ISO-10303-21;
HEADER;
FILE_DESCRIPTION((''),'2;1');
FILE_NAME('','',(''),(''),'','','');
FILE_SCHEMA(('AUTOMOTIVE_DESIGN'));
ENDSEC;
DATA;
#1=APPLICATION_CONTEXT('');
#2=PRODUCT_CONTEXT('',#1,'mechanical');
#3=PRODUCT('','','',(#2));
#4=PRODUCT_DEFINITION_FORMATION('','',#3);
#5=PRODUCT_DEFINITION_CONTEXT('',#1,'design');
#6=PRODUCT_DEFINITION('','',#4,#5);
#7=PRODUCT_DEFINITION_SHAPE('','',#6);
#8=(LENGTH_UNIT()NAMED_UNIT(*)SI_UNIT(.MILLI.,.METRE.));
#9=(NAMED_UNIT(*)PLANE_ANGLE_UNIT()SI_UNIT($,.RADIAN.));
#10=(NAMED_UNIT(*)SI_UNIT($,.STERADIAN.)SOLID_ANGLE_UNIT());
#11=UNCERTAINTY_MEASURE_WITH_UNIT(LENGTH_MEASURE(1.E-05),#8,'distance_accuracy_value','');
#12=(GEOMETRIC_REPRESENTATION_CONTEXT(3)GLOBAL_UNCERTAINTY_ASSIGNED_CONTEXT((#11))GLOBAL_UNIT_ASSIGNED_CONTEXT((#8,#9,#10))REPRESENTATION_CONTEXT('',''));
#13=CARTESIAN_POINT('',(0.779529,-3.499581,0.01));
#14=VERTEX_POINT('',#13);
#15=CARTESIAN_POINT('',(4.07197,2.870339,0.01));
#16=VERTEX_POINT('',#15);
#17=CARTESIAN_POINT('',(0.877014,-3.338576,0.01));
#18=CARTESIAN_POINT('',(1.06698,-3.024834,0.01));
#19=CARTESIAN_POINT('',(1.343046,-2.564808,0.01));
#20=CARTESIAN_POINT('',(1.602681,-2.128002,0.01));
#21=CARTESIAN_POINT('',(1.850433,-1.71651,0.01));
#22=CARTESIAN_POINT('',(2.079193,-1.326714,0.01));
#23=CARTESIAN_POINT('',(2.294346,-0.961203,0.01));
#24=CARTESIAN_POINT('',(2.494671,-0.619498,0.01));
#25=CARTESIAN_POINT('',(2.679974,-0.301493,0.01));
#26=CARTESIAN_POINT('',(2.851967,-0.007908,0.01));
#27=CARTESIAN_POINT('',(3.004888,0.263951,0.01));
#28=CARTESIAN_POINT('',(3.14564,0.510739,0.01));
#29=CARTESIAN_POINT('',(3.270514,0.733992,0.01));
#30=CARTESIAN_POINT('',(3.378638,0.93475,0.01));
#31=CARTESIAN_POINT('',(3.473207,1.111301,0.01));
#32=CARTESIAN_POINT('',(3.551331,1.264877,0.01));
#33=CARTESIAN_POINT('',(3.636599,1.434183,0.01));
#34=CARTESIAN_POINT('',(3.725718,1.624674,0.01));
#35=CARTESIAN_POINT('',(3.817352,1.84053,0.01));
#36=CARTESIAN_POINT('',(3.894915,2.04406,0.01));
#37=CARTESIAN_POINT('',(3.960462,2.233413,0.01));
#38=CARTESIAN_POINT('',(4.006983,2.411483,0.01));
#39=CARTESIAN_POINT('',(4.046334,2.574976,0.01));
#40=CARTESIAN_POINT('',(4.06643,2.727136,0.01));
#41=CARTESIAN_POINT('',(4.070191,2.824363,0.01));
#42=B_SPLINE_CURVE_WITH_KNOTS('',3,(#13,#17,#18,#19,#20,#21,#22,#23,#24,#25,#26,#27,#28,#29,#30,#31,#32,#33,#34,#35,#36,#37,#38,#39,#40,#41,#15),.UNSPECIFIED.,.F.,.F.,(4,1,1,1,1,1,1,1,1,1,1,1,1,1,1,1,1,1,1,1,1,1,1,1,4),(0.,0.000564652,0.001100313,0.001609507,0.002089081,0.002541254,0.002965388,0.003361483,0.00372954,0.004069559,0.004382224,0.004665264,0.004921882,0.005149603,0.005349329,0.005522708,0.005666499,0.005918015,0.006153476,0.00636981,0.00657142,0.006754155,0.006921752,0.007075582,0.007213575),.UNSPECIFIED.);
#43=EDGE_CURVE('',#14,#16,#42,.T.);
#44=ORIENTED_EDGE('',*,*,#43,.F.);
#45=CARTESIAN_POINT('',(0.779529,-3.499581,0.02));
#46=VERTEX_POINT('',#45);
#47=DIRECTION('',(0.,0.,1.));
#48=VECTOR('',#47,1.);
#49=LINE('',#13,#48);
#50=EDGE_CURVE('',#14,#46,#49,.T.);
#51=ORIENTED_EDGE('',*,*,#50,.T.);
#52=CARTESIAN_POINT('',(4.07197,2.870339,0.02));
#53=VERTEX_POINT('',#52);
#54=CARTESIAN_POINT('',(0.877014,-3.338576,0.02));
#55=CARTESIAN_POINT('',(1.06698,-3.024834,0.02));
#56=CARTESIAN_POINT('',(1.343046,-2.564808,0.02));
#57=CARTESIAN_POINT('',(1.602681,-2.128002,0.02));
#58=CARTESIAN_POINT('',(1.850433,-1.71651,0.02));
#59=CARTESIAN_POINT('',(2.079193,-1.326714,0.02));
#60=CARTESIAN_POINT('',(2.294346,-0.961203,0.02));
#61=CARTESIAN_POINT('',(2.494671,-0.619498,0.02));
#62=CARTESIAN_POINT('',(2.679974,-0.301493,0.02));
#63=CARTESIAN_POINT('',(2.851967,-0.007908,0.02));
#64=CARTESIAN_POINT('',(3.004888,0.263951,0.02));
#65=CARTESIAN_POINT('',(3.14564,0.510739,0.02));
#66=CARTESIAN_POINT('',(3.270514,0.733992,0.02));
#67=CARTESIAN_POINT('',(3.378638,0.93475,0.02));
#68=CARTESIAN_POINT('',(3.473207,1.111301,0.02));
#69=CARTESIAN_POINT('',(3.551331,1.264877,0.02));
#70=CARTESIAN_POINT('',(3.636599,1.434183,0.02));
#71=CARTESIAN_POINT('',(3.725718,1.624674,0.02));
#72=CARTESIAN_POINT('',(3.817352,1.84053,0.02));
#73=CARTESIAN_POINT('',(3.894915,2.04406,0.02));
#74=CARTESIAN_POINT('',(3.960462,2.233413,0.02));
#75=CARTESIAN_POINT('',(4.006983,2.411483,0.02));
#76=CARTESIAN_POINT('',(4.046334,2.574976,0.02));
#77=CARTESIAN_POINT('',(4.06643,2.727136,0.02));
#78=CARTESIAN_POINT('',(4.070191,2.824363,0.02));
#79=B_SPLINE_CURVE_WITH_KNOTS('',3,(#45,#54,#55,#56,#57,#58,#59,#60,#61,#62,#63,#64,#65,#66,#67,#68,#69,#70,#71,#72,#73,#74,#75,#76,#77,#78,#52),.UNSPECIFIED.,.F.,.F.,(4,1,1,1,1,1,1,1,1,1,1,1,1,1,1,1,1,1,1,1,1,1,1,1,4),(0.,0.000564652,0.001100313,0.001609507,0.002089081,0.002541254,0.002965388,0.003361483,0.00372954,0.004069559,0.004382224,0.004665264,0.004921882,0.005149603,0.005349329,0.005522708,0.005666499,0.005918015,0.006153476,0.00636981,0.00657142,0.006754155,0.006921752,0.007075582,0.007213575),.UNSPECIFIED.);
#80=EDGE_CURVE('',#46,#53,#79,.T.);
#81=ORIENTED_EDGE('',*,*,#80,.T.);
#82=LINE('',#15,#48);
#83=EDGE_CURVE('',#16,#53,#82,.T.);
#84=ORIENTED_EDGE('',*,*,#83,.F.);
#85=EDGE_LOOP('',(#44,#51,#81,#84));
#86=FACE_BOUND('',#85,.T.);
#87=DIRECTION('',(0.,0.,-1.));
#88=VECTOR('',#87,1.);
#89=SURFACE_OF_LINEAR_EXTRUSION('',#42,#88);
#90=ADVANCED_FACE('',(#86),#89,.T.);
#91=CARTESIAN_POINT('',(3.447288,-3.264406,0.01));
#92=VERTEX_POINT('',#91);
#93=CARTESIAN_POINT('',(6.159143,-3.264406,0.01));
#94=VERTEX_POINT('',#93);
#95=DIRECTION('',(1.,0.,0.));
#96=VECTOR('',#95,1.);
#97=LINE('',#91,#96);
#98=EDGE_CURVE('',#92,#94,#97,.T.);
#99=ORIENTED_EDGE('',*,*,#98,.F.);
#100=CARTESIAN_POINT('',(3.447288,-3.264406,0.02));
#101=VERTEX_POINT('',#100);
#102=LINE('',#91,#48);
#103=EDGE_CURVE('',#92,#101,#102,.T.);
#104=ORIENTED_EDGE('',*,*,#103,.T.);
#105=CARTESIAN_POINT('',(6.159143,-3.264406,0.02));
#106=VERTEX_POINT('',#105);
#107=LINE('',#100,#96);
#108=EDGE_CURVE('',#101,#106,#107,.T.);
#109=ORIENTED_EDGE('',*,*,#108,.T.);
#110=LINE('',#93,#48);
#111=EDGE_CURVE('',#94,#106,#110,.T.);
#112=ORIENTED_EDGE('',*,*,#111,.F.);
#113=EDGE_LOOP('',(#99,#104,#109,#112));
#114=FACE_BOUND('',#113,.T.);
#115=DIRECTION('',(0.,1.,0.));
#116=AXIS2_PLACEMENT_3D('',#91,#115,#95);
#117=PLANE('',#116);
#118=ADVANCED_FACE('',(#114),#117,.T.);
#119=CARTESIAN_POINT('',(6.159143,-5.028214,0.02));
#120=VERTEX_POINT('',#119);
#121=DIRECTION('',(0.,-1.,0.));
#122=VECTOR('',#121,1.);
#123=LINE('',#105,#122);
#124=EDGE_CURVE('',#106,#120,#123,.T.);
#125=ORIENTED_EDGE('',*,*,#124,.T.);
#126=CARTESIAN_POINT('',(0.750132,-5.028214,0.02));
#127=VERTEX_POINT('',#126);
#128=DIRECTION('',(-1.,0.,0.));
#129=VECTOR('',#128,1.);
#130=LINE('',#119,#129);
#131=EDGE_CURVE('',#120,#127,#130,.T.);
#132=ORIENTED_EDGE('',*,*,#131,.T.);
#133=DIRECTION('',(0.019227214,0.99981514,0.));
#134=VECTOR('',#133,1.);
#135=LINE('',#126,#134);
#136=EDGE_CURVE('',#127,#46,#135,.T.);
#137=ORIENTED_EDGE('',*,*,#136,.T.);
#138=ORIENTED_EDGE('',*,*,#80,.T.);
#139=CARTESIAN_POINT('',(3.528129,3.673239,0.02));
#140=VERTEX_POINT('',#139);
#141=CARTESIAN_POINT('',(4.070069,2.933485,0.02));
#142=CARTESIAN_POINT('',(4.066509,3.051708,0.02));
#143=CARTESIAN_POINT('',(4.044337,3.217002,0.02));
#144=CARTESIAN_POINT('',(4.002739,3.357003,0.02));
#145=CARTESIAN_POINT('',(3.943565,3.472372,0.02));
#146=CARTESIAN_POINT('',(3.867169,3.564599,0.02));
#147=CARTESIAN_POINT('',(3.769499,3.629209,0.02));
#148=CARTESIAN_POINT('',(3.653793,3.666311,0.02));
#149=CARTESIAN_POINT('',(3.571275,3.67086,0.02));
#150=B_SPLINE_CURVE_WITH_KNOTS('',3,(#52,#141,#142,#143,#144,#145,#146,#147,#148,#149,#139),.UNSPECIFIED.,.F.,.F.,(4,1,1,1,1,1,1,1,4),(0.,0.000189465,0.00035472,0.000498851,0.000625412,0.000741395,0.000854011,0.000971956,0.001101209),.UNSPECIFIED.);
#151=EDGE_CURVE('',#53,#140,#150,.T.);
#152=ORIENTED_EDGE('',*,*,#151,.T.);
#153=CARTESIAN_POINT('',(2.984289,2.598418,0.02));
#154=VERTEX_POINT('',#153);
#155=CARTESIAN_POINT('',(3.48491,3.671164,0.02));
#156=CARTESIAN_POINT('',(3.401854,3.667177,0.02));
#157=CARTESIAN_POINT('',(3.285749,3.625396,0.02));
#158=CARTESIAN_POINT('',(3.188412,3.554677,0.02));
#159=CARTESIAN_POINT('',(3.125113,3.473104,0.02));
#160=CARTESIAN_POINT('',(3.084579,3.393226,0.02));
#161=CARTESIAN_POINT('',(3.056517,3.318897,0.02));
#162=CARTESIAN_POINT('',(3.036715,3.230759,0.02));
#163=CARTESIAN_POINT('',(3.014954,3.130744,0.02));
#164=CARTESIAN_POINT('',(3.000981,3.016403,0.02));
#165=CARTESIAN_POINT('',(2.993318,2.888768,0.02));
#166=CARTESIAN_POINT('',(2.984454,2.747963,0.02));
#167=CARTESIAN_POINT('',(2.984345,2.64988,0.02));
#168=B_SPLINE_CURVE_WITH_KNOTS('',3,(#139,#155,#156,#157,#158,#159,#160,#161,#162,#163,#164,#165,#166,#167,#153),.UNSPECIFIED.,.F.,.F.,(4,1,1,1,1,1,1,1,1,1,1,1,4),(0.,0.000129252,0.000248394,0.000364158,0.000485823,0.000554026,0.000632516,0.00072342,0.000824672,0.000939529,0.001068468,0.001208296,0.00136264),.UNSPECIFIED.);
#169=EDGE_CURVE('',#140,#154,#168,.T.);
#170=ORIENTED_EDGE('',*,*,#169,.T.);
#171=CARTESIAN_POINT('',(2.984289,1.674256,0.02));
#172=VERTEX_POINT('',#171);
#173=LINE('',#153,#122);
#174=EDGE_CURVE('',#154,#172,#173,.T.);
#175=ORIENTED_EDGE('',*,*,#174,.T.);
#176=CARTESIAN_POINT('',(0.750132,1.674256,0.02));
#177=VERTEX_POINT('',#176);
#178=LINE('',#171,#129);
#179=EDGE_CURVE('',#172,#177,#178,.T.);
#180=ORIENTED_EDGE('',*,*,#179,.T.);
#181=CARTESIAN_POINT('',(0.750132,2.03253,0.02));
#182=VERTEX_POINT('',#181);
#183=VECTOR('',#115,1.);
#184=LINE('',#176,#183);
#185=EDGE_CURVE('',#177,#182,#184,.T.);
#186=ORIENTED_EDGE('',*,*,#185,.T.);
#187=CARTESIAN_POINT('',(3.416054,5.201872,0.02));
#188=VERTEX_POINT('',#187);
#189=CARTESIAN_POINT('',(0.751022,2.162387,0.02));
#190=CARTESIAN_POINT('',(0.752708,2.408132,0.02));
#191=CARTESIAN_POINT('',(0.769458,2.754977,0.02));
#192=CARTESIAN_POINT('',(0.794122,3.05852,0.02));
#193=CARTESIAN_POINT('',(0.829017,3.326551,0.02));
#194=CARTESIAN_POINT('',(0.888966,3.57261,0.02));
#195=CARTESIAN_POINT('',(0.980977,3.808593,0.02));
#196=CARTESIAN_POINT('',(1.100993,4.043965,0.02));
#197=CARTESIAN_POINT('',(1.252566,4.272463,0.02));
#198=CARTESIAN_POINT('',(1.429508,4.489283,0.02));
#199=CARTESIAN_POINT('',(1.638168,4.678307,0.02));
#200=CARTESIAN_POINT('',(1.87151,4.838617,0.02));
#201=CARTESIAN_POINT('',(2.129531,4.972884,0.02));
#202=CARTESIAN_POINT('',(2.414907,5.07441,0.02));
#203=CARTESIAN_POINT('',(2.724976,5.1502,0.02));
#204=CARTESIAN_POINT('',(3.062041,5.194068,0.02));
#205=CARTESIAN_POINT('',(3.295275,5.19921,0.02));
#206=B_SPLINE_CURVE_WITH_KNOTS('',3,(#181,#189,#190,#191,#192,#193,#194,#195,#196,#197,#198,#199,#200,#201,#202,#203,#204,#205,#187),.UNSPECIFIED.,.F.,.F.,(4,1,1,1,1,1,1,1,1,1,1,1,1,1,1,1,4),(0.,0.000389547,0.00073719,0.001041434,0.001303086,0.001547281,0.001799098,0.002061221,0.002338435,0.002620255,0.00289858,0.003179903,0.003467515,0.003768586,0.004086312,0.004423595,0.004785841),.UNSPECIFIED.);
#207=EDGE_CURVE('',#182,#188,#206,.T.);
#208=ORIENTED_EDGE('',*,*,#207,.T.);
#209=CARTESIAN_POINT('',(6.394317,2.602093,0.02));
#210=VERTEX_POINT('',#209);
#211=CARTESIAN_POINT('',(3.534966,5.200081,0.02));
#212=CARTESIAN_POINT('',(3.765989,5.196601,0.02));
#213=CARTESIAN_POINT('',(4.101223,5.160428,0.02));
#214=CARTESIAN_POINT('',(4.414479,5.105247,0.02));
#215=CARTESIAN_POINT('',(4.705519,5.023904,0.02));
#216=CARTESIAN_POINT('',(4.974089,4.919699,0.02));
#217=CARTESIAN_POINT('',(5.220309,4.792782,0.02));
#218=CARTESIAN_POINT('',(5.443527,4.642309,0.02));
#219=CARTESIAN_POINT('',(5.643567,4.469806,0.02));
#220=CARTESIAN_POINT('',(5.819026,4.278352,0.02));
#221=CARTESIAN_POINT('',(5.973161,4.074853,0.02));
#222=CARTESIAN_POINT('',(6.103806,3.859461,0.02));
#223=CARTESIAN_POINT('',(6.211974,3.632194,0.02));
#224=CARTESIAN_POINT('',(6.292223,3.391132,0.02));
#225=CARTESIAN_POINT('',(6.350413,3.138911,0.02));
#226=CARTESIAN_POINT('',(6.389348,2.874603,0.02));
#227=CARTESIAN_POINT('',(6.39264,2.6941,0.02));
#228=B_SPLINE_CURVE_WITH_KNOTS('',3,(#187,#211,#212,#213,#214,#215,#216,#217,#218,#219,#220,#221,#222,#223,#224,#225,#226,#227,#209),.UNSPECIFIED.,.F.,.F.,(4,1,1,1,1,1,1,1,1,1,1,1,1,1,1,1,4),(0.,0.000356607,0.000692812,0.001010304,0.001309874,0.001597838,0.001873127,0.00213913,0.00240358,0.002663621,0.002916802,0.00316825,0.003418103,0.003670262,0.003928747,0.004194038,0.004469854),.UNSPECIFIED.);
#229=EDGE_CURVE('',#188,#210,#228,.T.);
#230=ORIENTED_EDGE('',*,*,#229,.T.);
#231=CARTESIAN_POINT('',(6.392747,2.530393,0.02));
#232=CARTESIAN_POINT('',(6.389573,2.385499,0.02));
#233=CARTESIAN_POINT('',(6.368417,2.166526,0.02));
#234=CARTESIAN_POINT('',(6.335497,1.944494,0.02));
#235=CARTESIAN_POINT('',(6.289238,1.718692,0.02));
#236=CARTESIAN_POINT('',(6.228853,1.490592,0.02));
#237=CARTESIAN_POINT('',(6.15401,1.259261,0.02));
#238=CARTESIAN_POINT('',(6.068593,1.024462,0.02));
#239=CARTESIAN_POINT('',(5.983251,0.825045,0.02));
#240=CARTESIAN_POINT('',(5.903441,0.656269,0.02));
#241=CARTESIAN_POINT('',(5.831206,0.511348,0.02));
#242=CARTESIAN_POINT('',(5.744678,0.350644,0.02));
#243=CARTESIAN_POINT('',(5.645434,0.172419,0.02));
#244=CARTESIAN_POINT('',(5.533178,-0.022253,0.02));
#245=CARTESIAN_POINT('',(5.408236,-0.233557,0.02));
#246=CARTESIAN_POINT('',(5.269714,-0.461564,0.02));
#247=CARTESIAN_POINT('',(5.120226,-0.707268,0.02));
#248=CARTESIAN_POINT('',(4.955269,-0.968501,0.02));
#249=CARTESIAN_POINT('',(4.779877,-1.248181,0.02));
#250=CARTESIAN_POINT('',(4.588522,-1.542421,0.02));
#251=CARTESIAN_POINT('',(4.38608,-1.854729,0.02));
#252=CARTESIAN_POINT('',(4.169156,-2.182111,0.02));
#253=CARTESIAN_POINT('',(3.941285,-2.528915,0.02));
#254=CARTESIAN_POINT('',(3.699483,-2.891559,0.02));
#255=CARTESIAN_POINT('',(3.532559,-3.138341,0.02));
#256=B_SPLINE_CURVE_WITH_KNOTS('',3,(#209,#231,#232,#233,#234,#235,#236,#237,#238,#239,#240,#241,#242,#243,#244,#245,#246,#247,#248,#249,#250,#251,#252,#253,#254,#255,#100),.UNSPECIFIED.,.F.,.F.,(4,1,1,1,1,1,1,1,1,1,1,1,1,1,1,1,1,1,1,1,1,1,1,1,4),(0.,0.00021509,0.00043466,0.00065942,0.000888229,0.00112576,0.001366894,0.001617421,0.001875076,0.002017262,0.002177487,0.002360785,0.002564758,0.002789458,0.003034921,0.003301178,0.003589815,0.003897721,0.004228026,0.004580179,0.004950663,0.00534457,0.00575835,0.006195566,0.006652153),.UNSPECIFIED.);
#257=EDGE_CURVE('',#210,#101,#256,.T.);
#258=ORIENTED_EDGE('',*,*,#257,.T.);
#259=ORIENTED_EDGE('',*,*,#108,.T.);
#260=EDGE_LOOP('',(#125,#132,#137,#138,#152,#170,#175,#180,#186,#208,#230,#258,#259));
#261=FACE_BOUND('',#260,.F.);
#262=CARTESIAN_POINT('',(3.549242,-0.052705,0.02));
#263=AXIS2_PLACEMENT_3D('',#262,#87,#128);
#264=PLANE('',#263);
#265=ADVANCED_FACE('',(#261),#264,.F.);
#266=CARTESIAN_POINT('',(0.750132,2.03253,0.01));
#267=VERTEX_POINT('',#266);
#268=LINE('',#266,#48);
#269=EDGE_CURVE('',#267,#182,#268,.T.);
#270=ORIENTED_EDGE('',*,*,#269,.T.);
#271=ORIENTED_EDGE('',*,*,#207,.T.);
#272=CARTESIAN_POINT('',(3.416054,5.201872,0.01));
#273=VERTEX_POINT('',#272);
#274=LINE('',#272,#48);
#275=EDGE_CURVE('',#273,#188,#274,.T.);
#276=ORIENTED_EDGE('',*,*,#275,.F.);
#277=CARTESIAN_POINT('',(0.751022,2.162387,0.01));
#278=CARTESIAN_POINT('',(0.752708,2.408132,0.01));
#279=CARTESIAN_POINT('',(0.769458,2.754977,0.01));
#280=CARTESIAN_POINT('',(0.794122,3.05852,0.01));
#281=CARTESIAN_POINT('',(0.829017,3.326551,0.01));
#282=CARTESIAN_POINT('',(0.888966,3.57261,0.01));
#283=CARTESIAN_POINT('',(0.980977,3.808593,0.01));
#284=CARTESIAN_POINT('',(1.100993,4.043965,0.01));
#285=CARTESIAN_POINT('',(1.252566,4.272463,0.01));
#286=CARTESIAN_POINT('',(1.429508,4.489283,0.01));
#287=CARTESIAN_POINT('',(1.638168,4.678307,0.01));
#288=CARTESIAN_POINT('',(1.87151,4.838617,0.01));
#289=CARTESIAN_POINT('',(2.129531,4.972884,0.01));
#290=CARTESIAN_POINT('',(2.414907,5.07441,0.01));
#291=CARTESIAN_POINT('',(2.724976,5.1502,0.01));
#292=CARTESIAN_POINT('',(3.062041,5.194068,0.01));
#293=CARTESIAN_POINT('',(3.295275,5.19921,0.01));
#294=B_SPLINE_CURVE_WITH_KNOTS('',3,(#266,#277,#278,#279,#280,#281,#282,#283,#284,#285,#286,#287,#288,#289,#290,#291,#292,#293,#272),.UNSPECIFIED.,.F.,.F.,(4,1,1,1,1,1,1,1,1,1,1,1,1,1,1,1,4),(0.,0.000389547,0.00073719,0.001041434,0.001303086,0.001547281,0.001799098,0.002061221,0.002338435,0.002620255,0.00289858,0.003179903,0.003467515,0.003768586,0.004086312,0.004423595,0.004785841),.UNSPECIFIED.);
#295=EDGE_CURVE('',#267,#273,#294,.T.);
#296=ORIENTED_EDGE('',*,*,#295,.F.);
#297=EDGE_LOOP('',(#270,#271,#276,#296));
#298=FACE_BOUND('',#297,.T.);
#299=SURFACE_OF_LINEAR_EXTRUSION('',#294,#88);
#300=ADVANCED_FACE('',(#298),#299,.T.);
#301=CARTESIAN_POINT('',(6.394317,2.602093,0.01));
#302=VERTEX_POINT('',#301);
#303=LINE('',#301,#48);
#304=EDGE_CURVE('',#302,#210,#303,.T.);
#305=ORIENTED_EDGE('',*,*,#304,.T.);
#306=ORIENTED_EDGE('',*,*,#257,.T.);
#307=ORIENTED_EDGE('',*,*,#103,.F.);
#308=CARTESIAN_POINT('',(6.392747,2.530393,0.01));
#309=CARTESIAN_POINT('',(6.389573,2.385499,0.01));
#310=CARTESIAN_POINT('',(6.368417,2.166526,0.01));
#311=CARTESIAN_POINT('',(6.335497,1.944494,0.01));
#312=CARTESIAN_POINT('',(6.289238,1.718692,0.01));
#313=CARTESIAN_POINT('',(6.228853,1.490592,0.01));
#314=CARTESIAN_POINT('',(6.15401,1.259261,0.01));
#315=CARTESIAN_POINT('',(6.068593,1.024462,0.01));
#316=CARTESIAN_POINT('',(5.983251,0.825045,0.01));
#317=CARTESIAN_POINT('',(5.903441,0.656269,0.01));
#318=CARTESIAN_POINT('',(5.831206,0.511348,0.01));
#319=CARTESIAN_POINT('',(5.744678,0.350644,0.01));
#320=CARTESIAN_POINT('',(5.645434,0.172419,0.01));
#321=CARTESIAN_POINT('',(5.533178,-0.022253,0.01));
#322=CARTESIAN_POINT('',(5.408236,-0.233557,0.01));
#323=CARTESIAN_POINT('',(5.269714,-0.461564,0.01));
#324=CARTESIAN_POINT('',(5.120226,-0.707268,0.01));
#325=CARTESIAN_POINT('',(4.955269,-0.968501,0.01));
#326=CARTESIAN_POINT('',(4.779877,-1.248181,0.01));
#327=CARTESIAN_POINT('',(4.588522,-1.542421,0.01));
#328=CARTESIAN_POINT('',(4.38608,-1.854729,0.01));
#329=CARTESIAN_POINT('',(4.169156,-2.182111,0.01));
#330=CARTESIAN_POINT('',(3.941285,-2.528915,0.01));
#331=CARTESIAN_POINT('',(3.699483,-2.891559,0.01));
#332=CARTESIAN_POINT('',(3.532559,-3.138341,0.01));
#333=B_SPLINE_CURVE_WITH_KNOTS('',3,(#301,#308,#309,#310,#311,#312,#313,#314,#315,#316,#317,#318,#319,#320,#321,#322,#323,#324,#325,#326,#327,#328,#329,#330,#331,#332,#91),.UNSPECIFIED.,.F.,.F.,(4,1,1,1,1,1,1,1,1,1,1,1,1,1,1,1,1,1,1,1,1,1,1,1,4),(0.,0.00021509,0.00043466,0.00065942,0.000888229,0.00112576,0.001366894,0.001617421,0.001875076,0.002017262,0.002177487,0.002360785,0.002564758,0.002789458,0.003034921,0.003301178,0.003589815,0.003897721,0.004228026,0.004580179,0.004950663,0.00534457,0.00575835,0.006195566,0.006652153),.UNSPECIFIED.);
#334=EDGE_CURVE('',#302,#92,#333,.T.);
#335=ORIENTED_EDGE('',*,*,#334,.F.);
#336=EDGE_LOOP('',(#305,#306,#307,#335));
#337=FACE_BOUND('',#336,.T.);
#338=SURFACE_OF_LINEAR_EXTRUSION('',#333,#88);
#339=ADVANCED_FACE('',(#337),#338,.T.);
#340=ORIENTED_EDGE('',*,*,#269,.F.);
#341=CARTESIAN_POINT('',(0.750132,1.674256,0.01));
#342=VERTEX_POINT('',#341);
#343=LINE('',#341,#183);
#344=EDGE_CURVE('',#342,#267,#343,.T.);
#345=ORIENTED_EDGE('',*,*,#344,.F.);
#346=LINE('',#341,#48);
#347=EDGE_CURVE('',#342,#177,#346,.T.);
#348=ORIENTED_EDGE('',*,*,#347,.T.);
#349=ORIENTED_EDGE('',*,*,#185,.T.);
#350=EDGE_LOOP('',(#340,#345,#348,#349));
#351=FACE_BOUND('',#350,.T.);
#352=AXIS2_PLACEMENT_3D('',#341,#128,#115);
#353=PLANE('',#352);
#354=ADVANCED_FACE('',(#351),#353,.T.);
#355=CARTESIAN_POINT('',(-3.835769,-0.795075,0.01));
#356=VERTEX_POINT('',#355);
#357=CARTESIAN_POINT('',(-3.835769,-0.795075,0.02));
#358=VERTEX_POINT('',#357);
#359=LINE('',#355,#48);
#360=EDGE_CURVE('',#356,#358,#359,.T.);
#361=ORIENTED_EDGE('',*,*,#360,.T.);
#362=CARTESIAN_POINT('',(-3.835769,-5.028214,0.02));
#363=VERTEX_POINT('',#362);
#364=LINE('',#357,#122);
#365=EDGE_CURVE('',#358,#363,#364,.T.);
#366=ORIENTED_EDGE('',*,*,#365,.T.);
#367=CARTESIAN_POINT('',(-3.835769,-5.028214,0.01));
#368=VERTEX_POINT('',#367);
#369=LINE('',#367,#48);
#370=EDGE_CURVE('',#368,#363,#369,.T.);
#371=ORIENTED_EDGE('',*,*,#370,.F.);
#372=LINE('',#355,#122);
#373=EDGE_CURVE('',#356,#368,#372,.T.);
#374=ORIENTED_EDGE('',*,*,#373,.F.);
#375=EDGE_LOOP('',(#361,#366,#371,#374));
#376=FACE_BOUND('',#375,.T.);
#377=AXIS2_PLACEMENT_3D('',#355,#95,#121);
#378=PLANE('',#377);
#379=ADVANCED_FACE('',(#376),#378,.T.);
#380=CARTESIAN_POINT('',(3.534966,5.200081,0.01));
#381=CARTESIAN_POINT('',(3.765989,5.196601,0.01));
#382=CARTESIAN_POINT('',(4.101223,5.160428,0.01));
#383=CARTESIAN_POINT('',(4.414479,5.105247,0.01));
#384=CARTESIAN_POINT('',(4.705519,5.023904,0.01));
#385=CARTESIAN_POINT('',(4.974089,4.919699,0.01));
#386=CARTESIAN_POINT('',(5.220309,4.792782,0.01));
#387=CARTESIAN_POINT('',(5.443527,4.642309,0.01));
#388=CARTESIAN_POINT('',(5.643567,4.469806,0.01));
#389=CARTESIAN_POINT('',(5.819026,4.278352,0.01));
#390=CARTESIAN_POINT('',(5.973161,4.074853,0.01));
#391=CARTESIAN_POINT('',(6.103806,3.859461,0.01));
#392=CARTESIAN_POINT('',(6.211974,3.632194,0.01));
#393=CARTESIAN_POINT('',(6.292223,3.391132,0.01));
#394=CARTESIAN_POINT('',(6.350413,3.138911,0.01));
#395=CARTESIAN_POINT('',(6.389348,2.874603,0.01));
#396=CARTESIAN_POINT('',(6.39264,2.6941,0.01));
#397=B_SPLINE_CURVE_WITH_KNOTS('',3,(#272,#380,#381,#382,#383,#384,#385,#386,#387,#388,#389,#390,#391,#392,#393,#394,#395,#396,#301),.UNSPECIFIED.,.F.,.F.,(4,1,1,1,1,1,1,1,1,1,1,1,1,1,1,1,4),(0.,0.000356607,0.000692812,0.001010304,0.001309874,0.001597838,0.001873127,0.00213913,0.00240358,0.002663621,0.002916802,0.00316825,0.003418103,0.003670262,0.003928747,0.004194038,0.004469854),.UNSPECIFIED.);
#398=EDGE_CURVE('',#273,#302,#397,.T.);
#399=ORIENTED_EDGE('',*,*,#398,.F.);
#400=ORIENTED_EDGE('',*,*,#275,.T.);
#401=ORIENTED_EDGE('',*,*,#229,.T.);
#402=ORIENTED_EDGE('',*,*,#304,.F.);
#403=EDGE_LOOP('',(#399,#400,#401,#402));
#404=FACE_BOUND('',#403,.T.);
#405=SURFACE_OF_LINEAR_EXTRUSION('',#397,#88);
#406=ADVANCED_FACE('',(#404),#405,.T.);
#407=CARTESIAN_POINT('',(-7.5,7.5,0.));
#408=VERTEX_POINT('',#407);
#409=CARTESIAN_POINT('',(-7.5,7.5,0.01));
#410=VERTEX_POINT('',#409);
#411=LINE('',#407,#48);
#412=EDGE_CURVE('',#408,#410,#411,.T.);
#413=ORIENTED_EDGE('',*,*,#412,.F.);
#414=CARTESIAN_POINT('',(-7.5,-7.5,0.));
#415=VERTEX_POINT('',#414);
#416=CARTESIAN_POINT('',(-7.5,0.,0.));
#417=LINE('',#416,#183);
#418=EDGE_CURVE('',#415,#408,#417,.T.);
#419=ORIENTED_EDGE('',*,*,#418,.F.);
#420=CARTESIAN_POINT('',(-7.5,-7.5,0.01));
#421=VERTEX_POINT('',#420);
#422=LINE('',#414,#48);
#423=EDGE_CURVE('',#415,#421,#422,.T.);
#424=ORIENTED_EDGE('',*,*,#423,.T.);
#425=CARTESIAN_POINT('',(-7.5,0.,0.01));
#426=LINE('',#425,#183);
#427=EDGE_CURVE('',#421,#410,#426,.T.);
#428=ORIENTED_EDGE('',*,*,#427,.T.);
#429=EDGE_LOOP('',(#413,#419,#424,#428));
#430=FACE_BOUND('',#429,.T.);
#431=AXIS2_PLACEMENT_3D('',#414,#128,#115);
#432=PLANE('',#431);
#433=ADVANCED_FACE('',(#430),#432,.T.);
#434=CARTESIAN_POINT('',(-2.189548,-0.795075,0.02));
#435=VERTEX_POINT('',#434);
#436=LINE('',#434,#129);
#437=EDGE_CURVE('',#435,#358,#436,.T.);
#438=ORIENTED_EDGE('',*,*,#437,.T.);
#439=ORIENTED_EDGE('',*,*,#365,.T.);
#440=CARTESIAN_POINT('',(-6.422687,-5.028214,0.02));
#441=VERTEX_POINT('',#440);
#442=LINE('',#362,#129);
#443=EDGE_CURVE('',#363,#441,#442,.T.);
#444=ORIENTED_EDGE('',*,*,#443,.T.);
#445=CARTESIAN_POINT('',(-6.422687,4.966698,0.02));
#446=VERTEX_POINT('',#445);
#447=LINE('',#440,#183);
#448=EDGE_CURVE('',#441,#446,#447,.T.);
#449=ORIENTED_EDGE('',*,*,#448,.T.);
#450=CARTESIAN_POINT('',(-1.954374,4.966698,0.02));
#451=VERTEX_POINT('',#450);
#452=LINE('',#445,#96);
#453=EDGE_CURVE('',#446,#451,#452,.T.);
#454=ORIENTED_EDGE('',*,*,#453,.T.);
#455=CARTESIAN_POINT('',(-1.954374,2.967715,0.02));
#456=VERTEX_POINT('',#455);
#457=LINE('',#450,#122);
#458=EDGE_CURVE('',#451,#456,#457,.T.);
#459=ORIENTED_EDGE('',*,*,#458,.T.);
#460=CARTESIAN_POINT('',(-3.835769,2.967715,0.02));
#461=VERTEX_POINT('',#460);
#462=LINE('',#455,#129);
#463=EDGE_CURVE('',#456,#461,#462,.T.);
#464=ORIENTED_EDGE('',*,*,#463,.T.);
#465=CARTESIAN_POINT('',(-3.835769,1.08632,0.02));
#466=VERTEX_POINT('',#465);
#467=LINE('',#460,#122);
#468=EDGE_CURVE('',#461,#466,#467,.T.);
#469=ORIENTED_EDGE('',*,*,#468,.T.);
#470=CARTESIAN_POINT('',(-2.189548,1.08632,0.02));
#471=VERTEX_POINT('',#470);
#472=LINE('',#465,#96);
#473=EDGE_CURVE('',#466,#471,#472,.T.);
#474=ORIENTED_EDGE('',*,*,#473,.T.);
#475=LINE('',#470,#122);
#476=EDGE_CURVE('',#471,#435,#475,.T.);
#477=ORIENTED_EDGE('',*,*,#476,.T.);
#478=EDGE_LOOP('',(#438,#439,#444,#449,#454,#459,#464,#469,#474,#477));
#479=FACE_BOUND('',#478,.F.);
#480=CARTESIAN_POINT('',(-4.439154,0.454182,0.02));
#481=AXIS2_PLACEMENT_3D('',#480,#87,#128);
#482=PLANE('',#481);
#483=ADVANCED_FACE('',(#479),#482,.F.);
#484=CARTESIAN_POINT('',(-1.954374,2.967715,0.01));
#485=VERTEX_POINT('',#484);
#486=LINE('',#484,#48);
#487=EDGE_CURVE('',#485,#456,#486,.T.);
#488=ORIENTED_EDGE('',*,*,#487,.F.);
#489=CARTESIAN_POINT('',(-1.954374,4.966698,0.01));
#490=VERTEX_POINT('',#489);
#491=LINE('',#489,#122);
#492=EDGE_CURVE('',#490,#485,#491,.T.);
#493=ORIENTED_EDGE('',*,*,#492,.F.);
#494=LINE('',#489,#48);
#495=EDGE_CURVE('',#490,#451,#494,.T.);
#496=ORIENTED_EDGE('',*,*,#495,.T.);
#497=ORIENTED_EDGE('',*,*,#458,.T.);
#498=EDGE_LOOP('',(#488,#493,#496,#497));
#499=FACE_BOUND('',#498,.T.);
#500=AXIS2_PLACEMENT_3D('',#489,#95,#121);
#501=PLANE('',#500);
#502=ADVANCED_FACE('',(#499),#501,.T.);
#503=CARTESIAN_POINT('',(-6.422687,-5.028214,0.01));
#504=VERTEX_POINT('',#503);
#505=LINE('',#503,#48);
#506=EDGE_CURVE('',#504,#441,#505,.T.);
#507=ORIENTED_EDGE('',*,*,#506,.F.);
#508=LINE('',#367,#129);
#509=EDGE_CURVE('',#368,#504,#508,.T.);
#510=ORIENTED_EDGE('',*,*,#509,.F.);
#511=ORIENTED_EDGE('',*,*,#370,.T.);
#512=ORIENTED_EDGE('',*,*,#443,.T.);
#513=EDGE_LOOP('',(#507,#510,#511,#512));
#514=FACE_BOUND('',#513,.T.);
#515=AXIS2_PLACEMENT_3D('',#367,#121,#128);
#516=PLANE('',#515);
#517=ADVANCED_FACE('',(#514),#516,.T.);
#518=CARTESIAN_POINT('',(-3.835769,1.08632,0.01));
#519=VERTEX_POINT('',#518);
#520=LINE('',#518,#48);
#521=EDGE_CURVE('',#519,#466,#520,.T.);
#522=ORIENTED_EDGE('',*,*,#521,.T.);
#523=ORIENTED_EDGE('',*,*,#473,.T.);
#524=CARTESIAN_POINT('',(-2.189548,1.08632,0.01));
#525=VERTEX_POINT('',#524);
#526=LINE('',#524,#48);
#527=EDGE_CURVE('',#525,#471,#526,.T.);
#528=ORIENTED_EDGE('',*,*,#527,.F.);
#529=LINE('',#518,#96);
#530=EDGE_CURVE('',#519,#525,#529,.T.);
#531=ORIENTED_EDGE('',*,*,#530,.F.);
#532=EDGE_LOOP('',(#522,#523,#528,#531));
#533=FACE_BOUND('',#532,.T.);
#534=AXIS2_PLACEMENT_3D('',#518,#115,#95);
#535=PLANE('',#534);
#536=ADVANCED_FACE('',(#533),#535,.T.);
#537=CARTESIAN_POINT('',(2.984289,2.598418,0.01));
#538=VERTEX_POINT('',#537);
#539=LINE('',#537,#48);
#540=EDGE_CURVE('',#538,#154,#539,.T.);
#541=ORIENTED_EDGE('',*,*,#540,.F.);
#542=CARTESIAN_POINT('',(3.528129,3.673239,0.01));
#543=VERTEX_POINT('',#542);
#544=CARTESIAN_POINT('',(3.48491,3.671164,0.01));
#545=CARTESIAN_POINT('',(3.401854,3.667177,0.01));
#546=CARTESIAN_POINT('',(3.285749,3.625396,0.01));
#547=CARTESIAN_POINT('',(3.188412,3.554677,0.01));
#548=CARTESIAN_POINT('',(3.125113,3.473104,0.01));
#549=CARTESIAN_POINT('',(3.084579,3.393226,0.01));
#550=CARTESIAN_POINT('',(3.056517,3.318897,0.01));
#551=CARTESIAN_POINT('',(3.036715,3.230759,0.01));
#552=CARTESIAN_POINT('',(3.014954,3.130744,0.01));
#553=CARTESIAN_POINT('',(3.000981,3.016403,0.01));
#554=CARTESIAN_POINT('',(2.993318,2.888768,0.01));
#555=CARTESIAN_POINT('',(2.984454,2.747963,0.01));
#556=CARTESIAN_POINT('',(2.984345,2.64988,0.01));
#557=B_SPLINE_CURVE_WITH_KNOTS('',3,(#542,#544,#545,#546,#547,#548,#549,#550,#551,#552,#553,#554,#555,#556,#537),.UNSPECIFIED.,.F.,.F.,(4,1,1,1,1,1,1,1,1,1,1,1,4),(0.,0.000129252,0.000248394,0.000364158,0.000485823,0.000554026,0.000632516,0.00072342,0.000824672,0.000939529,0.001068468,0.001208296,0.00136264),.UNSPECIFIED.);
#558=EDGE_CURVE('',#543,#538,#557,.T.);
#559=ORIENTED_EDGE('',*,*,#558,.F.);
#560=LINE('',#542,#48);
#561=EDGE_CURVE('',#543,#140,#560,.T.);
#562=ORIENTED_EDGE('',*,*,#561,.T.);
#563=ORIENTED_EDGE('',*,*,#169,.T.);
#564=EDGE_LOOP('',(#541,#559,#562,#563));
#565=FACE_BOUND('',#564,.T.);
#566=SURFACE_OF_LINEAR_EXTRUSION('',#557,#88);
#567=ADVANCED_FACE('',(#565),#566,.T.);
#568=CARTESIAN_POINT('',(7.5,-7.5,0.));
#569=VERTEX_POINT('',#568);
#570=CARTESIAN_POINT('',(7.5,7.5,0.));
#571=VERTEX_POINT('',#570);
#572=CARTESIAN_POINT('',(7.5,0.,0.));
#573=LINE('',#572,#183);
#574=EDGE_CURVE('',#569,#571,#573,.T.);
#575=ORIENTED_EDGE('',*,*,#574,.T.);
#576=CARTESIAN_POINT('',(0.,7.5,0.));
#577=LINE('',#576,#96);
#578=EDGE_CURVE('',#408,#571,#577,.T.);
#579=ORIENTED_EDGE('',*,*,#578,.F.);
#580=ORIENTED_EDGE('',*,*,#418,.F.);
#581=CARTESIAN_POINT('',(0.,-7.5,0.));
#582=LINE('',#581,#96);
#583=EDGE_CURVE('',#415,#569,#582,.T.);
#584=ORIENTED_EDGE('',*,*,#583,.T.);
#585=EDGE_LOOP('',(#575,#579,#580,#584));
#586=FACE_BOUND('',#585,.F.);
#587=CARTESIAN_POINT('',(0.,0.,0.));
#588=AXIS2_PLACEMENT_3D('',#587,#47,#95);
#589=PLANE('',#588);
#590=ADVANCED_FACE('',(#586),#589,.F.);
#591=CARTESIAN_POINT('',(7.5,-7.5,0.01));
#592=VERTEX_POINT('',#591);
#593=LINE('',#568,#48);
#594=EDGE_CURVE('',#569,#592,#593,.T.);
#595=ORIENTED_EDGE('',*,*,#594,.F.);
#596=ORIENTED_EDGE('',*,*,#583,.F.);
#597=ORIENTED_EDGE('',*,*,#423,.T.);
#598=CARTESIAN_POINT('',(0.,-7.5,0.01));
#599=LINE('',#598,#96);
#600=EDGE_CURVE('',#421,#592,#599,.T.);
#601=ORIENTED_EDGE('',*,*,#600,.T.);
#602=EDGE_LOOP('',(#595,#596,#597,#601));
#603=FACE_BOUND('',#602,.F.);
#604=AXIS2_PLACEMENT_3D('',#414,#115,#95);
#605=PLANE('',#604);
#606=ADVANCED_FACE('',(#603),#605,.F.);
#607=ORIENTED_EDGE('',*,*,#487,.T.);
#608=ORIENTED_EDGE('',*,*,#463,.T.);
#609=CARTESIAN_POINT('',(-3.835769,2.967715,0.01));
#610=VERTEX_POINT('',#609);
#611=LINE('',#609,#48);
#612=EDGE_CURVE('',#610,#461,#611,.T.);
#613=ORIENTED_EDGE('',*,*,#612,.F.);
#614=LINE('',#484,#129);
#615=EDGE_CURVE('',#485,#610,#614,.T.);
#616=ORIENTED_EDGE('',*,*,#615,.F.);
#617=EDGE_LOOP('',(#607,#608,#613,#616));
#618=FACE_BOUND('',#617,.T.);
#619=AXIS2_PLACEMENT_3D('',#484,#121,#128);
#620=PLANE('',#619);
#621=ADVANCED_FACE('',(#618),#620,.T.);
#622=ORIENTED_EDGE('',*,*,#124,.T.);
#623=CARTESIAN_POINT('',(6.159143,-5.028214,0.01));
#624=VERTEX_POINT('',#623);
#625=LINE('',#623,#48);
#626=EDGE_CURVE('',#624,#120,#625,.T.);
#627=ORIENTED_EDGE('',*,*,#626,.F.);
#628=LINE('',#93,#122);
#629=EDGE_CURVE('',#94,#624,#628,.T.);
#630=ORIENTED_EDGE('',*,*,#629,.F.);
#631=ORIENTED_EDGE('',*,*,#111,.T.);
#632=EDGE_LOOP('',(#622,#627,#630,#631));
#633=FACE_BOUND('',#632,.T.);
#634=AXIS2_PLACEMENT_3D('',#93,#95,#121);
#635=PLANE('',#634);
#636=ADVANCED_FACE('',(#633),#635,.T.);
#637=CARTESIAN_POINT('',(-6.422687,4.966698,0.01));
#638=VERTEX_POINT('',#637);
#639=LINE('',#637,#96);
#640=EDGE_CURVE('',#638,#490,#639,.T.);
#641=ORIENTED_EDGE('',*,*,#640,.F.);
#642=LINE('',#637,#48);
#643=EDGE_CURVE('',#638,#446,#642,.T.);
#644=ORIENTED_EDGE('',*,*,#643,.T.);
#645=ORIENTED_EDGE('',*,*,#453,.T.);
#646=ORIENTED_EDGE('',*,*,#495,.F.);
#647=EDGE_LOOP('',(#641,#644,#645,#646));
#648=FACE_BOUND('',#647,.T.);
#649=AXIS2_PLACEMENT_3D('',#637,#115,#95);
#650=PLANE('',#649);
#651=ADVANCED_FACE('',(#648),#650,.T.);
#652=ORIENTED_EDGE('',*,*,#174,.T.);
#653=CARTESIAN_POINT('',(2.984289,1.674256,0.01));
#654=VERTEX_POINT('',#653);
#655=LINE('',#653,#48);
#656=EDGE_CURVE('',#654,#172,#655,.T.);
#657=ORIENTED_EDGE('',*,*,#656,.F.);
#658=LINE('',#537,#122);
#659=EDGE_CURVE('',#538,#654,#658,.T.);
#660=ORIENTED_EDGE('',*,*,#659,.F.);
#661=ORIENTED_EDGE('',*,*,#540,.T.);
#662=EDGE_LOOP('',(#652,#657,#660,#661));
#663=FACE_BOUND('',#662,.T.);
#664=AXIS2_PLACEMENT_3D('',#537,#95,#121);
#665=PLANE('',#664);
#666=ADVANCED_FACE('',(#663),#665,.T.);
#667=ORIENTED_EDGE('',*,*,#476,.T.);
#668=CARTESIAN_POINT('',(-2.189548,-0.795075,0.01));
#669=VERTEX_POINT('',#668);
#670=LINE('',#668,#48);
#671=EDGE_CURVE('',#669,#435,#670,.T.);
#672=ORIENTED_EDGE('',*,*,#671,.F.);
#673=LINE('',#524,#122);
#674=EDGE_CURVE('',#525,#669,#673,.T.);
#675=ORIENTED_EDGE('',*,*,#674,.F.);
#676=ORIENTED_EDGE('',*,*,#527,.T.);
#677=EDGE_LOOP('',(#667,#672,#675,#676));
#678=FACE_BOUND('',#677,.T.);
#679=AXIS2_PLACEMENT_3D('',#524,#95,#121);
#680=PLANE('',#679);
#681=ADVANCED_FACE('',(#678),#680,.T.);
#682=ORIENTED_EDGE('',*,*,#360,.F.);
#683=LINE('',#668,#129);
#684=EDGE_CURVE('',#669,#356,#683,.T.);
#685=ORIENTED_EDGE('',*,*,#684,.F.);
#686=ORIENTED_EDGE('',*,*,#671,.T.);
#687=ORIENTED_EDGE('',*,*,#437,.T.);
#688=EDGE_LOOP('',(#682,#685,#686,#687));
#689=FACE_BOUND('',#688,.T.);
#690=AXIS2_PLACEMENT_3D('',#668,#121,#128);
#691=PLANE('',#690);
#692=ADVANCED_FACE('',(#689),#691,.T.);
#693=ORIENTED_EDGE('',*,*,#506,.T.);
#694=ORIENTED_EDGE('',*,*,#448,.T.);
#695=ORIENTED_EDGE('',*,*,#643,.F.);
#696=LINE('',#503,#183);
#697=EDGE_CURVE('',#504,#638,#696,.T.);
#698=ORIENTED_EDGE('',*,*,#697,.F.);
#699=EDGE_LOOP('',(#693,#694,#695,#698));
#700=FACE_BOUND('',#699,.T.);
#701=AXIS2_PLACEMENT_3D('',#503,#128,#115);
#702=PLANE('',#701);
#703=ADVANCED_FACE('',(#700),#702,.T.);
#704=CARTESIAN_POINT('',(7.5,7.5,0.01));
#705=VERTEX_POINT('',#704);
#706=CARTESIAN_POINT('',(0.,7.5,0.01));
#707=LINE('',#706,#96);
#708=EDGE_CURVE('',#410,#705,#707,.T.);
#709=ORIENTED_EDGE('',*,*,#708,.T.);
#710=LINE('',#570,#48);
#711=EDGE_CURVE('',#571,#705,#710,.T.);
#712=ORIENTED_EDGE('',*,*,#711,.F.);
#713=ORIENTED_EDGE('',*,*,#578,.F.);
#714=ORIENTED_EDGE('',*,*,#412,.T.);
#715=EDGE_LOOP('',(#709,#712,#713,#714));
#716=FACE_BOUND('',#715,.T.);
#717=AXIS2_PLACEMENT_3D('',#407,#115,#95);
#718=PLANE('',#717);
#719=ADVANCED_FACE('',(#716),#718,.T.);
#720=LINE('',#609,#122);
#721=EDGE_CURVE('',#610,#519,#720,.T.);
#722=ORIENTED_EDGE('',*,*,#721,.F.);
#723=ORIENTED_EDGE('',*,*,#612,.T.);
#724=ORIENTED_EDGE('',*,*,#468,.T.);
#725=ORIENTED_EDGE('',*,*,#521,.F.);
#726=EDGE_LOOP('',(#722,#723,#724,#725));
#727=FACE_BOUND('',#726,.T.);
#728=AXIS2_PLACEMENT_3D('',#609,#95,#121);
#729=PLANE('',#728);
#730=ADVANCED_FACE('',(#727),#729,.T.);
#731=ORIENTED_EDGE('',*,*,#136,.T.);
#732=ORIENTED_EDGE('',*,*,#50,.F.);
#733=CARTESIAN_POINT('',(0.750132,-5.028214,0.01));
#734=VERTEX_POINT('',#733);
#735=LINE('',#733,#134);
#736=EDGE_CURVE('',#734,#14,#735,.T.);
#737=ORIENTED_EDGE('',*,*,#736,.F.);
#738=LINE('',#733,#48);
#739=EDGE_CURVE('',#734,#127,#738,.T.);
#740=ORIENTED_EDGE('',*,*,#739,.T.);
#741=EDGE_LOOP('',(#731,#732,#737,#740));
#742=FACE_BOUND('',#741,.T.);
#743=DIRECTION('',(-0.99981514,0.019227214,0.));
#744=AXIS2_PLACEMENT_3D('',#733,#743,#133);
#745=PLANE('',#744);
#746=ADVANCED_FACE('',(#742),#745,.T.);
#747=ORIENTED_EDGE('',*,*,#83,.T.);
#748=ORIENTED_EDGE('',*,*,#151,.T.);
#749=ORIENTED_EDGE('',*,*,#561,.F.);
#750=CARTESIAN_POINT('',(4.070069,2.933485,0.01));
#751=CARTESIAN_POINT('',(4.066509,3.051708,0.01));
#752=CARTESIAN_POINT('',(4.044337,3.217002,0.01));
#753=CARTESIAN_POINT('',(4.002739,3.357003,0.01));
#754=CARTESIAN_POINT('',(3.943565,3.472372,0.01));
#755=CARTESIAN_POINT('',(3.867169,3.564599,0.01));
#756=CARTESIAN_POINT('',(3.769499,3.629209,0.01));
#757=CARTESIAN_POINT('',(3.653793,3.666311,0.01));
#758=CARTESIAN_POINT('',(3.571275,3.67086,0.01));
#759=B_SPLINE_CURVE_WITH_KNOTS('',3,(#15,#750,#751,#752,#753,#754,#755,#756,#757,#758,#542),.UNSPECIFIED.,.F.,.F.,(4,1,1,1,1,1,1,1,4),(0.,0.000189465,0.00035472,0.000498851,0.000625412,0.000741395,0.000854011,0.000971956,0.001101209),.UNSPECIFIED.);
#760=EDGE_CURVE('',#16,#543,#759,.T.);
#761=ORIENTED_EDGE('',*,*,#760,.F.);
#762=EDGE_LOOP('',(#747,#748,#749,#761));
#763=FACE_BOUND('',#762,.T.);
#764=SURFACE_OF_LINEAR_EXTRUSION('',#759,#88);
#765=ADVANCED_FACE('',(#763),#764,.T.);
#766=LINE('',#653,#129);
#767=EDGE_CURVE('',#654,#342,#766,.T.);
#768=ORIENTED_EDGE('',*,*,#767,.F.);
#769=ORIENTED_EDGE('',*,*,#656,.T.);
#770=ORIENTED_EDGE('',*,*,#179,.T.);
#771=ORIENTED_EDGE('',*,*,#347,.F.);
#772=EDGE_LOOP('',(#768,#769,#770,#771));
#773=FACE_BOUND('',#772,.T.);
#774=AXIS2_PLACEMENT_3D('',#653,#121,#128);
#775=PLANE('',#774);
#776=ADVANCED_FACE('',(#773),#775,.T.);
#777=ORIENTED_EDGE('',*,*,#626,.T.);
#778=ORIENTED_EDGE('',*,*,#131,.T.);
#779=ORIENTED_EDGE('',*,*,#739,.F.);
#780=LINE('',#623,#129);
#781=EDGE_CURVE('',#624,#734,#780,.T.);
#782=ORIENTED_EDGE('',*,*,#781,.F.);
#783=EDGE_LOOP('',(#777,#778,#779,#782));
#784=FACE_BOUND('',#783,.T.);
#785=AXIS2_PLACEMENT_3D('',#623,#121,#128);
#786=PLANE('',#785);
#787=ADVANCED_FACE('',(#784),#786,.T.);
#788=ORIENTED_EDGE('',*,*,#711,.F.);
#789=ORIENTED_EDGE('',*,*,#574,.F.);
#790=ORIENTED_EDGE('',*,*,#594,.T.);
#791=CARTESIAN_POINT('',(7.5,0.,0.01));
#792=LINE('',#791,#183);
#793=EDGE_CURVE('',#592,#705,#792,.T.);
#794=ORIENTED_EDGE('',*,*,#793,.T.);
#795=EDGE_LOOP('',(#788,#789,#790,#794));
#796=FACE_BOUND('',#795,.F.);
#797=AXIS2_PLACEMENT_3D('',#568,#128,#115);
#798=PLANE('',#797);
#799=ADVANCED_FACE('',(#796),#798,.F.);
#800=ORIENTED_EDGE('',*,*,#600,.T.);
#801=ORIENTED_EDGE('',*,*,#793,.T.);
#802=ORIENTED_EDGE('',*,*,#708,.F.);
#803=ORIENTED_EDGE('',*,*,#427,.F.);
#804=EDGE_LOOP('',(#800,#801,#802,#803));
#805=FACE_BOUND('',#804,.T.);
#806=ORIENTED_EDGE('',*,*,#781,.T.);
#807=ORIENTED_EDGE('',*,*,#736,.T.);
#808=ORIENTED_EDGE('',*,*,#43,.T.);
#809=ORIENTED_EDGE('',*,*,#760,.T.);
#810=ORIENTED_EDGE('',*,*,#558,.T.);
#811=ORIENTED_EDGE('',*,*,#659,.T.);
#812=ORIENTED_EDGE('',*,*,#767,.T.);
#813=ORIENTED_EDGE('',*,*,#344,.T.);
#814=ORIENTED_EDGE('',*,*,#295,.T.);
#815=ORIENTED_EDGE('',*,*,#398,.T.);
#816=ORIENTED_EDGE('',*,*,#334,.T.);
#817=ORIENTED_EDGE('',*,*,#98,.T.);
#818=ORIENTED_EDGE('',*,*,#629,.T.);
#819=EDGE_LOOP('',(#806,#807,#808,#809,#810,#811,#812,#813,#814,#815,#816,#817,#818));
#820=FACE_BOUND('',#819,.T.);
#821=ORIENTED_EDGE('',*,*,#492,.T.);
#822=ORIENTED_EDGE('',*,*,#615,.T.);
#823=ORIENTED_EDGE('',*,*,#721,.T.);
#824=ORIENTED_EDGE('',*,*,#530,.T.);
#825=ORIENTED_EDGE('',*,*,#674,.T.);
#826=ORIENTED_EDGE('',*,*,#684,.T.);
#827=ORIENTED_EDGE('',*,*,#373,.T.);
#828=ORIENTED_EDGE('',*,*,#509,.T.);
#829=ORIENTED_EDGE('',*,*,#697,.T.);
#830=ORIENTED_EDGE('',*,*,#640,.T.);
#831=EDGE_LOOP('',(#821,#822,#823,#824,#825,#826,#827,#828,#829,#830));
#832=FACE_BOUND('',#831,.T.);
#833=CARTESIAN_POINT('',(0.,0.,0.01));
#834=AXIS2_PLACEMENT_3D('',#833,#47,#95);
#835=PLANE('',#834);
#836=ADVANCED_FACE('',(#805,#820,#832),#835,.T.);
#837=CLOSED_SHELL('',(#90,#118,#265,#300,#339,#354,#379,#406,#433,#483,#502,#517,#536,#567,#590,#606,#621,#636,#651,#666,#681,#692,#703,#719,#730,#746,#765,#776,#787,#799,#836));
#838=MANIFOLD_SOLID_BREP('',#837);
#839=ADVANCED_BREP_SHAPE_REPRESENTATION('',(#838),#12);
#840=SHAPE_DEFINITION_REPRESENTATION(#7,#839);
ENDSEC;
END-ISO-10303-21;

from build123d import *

# Parameters (mm, degrees)
SKETCH1_W           = 15
SKETCH1_H           = 15
BASE_EXTRUDE_DEPTH  = 0.01
BOSS_EXTRUDE1_DEPTH = 0.01


with BuildPart() as part:
    # Sketch1 → Base-Extrude (new body)
    with BuildSketch(Plane.XY):
        Rectangle(SKETCH1_W, SKETCH1_H)
    extrude(amount=BASE_EXTRUDE_DEPTH)

    # Sketch3 → Boss-Extrude1 (add)
    with BuildSketch(Plane.XY.offset(0.01)):
        Polygon((-6.422687471, 4.966697862), (-1.95437388, 4.966697862), (-1.95437388, 2.967715466), (-3.835769076, 2.967715466), (-3.835769076, 1.08632027), (-2.189548279, 1.08632027), (-2.189548279, -0.795074926), (-3.835769076, -0.795074926), (-3.835769076, -5.028214117), (-6.422687471, -5.028214117), align=None)
        with BuildLine():
            Line((6.159142904, -3.264406121), (6.159142904, -5.028214117))
            Line((6.159142904, -5.028214117), (0.750131715, -5.028214117))
            Line((0.750131715, -5.028214117), (0.779528515, -3.499580521))
            add(Edge.make_bspline(
                [(0.779528515, -3.499580521), (0.877014083, -3.338576188), (1.066979862, -3.024834225), (1.343045705, -2.56480754), (1.602681012, -2.128002305), (1.850432695, -1.716510192), (2.079193397, -1.326713925), (2.294345848, -0.961203267), (2.494671208, -0.619498336), (2.679973751, -0.301493491), (2.851966968, -0.007907642), (3.004887743, 0.263950757), (3.145640195, 0.510739163), (3.270514365, 0.733991797), (3.3786378, 0.934750039), (3.473207235, 1.111300707), (3.551330736, 1.264877002), (3.636598876, 1.434182645), (3.725717962, 1.624674223), (3.817352242, 1.840530263), (3.894914579, 2.044060275), (3.960461689, 2.233412865), (4.006982766, 2.411483456), (4.046334489, 2.574975972), (4.066429896, 2.727136462), (4.070191411, 2.824363225), (4.071970108, 2.870338566)],
                knots=[0, 0, 0, 0, 0.000564652, 0.001100313, 0.001609507, 0.002089081, 0.002541254, 0.002965388, 0.003361483, 0.00372954, 0.004069559, 0.004382224, 0.004665264, 0.004921882, 0.005149603, 0.005349329, 0.005522708, 0.005666499, 0.005918015, 0.006153476, 0.00636981, 0.00657142, 0.006754155, 0.006921752, 0.007075582, 0.007213575, 0.007213575, 0.007213575, 0.007213575], degree=3))
            add(Edge.make_bspline(
                [(4.071970108, 2.870338566), (4.070068672, 2.933484515), (4.066508767, 3.051707609), (4.04433705, 3.217001799), (4.002738782, 3.357003396), (3.943565001, 3.472371568), (3.867169386, 3.564598818), (3.769499006, 3.629208641), (3.653793224, 3.66631058), (3.571275415, 3.67085994), (3.528129309, 3.673238665)],
                knots=[0, 0, 0, 0, 0.000189465, 0.00035472, 0.000498851, 0.000625412, 0.000741395, 0.000854011, 0.000971956, 0.001101209, 0.001101209, 0.001101209, 0.001101209], degree=3))
            add(Edge.make_bspline(
                [(3.528129309, 3.673238665), (3.484910432, 3.671163948), (3.401853536, 3.667176812), (3.285749318, 3.625396077), (3.188411854, 3.554676877), (3.125112869, 3.473103812), (3.084579248, 3.393226095), (3.05651705, 3.3188966), (3.036714643, 3.230759277), (3.014954485, 3.130743563), (3.000980696, 3.016402907), (2.993317763, 2.888767878), (2.984453815, 2.747962897), (2.984345395, 2.649879731), (2.98428851, 2.598418167)],
                knots=[0, 0, 0, 0, 0.000129252, 0.000248394, 0.000364158, 0.000485823, 0.000554026, 0.000632516, 0.00072342, 0.000824672, 0.000939529, 0.001068468, 0.001208296, 0.00136264, 0.00136264, 0.00136264, 0.00136264], degree=3))
            Line((2.98428851, 2.598418167), (2.98428851, 1.674256269))
            Line((2.98428851, 1.674256269), (0.750131715, 1.674256269))
            Line((0.750131715, 1.674256269), (0.750131715, 2.032529768))
            add(Edge.make_bspline(
                [(0.750131715, 2.032529768), (0.751022306, 2.16238688), (0.752707687, 2.408132412), (0.769457747, 2.75497652), (0.794121954, 3.058519518), (0.829016676, 3.326551357), (0.8889659, 3.572609948), (0.980977076, 3.808592891), (1.100992692, 4.043964564), (1.252566069, 4.272463253), (1.429507662, 4.48928336), (1.638168026, 4.678306609), (1.871509665, 4.838617245), (2.129530989, 4.972884244), (2.414907456, 5.074410455), (2.724975997, 5.15020006), (3.062040959, 5.194068001), (3.295275309, 5.19920968), (3.416054009, 5.201872262)],
                knots=[0, 0, 0, 0, 0.000389547, 0.00073719, 0.001041434, 0.001303086, 0.001547281, 0.001799098, 0.002061221, 0.002338435, 0.002620255, 0.00289858, 0.003179903, 0.003467515, 0.003768586, 0.004086312, 0.004423595, 0.004785841, 0.004785841, 0.004785841, 0.004785841], degree=3))
            add(Edge.make_bspline(
                [(3.416054009, 5.201872262), (3.534966431, 5.200080949), (3.765988513, 5.196600802), (4.101222792, 5.160428229), (4.414479271, 5.105247103), (4.705518743, 5.023904179), (4.974089205, 4.91969881), (5.220309249, 4.792782177), (5.443526672, 4.64230899), (5.643566838, 4.469806168), (5.819026319, 4.278351536), (5.973160681, 4.074852589), (6.103805742, 3.859461087), (6.211974397, 3.632193542), (6.292222673, 3.39113189), (6.350412677, 3.138911047), (6.389348309, 2.874602653), (6.392639634, 2.69409963), (6.394317303, 2.602092767)],
                knots=[0, 0, 0, 0, 0.000356607, 0.000692812, 0.001010304, 0.001309874, 0.001597838, 0.001873127, 0.00213913, 0.00240358, 0.002663621, 0.002916802, 0.00316825, 0.003418103, 0.003670262, 0.003928747, 0.004194038, 0.004469854, 0.004469854, 0.004469854, 0.004469854], degree=3))
            add(Edge.make_bspline(
                [(6.394317303, 2.602092767), (6.392746801, 2.530392619), (6.389573077, 2.385498544), (6.368416534, 2.166525542), (6.335496514, 1.944494313), (6.289237681, 1.718691614), (6.228852902, 1.490592136), (6.154009792, 1.259261118), (6.068593193, 1.024462193), (5.983251437, 0.825045072), (5.903440559, 0.656268599), (5.831206174, 0.511348432), (5.744678172, 0.350644217), (5.645434225, 0.172419472), (5.533178231, -0.022253367), (5.408235872, -0.23355711), (5.269714361, -0.461563791), (5.12022609, -0.707268255), (4.955268897, -0.968500781), (4.779876872, -1.248181418), (4.588522389, -1.542420961), (4.386080467, -1.854729454), (4.169155651, -2.182111033), (3.941284953, -2.528915012), (3.699482969, -2.89155892), (3.532558952, -3.138340923), (3.447288109, -3.264406121)],
                knots=[0, 0, 0, 0, 0.00021509, 0.00043466, 0.00065942, 0.000888229, 0.00112576, 0.001366894, 0.001617421, 0.001875076, 0.002017262, 0.002177487, 0.002360785, 0.002564758, 0.002789458, 0.003034921, 0.003301178, 0.003589815, 0.003897721, 0.004228026, 0.004580179, 0.004950663, 0.00534457, 0.00575835, 0.006195566, 0.006652153, 0.006652153, 0.006652153, 0.006652153], degree=3))
            Line((3.447288109, -3.264406121), (6.159142904, -3.264406121))
        make_face()
    extrude(amount=BOSS_EXTRUDE1_DEPTH)


solid = part.part
